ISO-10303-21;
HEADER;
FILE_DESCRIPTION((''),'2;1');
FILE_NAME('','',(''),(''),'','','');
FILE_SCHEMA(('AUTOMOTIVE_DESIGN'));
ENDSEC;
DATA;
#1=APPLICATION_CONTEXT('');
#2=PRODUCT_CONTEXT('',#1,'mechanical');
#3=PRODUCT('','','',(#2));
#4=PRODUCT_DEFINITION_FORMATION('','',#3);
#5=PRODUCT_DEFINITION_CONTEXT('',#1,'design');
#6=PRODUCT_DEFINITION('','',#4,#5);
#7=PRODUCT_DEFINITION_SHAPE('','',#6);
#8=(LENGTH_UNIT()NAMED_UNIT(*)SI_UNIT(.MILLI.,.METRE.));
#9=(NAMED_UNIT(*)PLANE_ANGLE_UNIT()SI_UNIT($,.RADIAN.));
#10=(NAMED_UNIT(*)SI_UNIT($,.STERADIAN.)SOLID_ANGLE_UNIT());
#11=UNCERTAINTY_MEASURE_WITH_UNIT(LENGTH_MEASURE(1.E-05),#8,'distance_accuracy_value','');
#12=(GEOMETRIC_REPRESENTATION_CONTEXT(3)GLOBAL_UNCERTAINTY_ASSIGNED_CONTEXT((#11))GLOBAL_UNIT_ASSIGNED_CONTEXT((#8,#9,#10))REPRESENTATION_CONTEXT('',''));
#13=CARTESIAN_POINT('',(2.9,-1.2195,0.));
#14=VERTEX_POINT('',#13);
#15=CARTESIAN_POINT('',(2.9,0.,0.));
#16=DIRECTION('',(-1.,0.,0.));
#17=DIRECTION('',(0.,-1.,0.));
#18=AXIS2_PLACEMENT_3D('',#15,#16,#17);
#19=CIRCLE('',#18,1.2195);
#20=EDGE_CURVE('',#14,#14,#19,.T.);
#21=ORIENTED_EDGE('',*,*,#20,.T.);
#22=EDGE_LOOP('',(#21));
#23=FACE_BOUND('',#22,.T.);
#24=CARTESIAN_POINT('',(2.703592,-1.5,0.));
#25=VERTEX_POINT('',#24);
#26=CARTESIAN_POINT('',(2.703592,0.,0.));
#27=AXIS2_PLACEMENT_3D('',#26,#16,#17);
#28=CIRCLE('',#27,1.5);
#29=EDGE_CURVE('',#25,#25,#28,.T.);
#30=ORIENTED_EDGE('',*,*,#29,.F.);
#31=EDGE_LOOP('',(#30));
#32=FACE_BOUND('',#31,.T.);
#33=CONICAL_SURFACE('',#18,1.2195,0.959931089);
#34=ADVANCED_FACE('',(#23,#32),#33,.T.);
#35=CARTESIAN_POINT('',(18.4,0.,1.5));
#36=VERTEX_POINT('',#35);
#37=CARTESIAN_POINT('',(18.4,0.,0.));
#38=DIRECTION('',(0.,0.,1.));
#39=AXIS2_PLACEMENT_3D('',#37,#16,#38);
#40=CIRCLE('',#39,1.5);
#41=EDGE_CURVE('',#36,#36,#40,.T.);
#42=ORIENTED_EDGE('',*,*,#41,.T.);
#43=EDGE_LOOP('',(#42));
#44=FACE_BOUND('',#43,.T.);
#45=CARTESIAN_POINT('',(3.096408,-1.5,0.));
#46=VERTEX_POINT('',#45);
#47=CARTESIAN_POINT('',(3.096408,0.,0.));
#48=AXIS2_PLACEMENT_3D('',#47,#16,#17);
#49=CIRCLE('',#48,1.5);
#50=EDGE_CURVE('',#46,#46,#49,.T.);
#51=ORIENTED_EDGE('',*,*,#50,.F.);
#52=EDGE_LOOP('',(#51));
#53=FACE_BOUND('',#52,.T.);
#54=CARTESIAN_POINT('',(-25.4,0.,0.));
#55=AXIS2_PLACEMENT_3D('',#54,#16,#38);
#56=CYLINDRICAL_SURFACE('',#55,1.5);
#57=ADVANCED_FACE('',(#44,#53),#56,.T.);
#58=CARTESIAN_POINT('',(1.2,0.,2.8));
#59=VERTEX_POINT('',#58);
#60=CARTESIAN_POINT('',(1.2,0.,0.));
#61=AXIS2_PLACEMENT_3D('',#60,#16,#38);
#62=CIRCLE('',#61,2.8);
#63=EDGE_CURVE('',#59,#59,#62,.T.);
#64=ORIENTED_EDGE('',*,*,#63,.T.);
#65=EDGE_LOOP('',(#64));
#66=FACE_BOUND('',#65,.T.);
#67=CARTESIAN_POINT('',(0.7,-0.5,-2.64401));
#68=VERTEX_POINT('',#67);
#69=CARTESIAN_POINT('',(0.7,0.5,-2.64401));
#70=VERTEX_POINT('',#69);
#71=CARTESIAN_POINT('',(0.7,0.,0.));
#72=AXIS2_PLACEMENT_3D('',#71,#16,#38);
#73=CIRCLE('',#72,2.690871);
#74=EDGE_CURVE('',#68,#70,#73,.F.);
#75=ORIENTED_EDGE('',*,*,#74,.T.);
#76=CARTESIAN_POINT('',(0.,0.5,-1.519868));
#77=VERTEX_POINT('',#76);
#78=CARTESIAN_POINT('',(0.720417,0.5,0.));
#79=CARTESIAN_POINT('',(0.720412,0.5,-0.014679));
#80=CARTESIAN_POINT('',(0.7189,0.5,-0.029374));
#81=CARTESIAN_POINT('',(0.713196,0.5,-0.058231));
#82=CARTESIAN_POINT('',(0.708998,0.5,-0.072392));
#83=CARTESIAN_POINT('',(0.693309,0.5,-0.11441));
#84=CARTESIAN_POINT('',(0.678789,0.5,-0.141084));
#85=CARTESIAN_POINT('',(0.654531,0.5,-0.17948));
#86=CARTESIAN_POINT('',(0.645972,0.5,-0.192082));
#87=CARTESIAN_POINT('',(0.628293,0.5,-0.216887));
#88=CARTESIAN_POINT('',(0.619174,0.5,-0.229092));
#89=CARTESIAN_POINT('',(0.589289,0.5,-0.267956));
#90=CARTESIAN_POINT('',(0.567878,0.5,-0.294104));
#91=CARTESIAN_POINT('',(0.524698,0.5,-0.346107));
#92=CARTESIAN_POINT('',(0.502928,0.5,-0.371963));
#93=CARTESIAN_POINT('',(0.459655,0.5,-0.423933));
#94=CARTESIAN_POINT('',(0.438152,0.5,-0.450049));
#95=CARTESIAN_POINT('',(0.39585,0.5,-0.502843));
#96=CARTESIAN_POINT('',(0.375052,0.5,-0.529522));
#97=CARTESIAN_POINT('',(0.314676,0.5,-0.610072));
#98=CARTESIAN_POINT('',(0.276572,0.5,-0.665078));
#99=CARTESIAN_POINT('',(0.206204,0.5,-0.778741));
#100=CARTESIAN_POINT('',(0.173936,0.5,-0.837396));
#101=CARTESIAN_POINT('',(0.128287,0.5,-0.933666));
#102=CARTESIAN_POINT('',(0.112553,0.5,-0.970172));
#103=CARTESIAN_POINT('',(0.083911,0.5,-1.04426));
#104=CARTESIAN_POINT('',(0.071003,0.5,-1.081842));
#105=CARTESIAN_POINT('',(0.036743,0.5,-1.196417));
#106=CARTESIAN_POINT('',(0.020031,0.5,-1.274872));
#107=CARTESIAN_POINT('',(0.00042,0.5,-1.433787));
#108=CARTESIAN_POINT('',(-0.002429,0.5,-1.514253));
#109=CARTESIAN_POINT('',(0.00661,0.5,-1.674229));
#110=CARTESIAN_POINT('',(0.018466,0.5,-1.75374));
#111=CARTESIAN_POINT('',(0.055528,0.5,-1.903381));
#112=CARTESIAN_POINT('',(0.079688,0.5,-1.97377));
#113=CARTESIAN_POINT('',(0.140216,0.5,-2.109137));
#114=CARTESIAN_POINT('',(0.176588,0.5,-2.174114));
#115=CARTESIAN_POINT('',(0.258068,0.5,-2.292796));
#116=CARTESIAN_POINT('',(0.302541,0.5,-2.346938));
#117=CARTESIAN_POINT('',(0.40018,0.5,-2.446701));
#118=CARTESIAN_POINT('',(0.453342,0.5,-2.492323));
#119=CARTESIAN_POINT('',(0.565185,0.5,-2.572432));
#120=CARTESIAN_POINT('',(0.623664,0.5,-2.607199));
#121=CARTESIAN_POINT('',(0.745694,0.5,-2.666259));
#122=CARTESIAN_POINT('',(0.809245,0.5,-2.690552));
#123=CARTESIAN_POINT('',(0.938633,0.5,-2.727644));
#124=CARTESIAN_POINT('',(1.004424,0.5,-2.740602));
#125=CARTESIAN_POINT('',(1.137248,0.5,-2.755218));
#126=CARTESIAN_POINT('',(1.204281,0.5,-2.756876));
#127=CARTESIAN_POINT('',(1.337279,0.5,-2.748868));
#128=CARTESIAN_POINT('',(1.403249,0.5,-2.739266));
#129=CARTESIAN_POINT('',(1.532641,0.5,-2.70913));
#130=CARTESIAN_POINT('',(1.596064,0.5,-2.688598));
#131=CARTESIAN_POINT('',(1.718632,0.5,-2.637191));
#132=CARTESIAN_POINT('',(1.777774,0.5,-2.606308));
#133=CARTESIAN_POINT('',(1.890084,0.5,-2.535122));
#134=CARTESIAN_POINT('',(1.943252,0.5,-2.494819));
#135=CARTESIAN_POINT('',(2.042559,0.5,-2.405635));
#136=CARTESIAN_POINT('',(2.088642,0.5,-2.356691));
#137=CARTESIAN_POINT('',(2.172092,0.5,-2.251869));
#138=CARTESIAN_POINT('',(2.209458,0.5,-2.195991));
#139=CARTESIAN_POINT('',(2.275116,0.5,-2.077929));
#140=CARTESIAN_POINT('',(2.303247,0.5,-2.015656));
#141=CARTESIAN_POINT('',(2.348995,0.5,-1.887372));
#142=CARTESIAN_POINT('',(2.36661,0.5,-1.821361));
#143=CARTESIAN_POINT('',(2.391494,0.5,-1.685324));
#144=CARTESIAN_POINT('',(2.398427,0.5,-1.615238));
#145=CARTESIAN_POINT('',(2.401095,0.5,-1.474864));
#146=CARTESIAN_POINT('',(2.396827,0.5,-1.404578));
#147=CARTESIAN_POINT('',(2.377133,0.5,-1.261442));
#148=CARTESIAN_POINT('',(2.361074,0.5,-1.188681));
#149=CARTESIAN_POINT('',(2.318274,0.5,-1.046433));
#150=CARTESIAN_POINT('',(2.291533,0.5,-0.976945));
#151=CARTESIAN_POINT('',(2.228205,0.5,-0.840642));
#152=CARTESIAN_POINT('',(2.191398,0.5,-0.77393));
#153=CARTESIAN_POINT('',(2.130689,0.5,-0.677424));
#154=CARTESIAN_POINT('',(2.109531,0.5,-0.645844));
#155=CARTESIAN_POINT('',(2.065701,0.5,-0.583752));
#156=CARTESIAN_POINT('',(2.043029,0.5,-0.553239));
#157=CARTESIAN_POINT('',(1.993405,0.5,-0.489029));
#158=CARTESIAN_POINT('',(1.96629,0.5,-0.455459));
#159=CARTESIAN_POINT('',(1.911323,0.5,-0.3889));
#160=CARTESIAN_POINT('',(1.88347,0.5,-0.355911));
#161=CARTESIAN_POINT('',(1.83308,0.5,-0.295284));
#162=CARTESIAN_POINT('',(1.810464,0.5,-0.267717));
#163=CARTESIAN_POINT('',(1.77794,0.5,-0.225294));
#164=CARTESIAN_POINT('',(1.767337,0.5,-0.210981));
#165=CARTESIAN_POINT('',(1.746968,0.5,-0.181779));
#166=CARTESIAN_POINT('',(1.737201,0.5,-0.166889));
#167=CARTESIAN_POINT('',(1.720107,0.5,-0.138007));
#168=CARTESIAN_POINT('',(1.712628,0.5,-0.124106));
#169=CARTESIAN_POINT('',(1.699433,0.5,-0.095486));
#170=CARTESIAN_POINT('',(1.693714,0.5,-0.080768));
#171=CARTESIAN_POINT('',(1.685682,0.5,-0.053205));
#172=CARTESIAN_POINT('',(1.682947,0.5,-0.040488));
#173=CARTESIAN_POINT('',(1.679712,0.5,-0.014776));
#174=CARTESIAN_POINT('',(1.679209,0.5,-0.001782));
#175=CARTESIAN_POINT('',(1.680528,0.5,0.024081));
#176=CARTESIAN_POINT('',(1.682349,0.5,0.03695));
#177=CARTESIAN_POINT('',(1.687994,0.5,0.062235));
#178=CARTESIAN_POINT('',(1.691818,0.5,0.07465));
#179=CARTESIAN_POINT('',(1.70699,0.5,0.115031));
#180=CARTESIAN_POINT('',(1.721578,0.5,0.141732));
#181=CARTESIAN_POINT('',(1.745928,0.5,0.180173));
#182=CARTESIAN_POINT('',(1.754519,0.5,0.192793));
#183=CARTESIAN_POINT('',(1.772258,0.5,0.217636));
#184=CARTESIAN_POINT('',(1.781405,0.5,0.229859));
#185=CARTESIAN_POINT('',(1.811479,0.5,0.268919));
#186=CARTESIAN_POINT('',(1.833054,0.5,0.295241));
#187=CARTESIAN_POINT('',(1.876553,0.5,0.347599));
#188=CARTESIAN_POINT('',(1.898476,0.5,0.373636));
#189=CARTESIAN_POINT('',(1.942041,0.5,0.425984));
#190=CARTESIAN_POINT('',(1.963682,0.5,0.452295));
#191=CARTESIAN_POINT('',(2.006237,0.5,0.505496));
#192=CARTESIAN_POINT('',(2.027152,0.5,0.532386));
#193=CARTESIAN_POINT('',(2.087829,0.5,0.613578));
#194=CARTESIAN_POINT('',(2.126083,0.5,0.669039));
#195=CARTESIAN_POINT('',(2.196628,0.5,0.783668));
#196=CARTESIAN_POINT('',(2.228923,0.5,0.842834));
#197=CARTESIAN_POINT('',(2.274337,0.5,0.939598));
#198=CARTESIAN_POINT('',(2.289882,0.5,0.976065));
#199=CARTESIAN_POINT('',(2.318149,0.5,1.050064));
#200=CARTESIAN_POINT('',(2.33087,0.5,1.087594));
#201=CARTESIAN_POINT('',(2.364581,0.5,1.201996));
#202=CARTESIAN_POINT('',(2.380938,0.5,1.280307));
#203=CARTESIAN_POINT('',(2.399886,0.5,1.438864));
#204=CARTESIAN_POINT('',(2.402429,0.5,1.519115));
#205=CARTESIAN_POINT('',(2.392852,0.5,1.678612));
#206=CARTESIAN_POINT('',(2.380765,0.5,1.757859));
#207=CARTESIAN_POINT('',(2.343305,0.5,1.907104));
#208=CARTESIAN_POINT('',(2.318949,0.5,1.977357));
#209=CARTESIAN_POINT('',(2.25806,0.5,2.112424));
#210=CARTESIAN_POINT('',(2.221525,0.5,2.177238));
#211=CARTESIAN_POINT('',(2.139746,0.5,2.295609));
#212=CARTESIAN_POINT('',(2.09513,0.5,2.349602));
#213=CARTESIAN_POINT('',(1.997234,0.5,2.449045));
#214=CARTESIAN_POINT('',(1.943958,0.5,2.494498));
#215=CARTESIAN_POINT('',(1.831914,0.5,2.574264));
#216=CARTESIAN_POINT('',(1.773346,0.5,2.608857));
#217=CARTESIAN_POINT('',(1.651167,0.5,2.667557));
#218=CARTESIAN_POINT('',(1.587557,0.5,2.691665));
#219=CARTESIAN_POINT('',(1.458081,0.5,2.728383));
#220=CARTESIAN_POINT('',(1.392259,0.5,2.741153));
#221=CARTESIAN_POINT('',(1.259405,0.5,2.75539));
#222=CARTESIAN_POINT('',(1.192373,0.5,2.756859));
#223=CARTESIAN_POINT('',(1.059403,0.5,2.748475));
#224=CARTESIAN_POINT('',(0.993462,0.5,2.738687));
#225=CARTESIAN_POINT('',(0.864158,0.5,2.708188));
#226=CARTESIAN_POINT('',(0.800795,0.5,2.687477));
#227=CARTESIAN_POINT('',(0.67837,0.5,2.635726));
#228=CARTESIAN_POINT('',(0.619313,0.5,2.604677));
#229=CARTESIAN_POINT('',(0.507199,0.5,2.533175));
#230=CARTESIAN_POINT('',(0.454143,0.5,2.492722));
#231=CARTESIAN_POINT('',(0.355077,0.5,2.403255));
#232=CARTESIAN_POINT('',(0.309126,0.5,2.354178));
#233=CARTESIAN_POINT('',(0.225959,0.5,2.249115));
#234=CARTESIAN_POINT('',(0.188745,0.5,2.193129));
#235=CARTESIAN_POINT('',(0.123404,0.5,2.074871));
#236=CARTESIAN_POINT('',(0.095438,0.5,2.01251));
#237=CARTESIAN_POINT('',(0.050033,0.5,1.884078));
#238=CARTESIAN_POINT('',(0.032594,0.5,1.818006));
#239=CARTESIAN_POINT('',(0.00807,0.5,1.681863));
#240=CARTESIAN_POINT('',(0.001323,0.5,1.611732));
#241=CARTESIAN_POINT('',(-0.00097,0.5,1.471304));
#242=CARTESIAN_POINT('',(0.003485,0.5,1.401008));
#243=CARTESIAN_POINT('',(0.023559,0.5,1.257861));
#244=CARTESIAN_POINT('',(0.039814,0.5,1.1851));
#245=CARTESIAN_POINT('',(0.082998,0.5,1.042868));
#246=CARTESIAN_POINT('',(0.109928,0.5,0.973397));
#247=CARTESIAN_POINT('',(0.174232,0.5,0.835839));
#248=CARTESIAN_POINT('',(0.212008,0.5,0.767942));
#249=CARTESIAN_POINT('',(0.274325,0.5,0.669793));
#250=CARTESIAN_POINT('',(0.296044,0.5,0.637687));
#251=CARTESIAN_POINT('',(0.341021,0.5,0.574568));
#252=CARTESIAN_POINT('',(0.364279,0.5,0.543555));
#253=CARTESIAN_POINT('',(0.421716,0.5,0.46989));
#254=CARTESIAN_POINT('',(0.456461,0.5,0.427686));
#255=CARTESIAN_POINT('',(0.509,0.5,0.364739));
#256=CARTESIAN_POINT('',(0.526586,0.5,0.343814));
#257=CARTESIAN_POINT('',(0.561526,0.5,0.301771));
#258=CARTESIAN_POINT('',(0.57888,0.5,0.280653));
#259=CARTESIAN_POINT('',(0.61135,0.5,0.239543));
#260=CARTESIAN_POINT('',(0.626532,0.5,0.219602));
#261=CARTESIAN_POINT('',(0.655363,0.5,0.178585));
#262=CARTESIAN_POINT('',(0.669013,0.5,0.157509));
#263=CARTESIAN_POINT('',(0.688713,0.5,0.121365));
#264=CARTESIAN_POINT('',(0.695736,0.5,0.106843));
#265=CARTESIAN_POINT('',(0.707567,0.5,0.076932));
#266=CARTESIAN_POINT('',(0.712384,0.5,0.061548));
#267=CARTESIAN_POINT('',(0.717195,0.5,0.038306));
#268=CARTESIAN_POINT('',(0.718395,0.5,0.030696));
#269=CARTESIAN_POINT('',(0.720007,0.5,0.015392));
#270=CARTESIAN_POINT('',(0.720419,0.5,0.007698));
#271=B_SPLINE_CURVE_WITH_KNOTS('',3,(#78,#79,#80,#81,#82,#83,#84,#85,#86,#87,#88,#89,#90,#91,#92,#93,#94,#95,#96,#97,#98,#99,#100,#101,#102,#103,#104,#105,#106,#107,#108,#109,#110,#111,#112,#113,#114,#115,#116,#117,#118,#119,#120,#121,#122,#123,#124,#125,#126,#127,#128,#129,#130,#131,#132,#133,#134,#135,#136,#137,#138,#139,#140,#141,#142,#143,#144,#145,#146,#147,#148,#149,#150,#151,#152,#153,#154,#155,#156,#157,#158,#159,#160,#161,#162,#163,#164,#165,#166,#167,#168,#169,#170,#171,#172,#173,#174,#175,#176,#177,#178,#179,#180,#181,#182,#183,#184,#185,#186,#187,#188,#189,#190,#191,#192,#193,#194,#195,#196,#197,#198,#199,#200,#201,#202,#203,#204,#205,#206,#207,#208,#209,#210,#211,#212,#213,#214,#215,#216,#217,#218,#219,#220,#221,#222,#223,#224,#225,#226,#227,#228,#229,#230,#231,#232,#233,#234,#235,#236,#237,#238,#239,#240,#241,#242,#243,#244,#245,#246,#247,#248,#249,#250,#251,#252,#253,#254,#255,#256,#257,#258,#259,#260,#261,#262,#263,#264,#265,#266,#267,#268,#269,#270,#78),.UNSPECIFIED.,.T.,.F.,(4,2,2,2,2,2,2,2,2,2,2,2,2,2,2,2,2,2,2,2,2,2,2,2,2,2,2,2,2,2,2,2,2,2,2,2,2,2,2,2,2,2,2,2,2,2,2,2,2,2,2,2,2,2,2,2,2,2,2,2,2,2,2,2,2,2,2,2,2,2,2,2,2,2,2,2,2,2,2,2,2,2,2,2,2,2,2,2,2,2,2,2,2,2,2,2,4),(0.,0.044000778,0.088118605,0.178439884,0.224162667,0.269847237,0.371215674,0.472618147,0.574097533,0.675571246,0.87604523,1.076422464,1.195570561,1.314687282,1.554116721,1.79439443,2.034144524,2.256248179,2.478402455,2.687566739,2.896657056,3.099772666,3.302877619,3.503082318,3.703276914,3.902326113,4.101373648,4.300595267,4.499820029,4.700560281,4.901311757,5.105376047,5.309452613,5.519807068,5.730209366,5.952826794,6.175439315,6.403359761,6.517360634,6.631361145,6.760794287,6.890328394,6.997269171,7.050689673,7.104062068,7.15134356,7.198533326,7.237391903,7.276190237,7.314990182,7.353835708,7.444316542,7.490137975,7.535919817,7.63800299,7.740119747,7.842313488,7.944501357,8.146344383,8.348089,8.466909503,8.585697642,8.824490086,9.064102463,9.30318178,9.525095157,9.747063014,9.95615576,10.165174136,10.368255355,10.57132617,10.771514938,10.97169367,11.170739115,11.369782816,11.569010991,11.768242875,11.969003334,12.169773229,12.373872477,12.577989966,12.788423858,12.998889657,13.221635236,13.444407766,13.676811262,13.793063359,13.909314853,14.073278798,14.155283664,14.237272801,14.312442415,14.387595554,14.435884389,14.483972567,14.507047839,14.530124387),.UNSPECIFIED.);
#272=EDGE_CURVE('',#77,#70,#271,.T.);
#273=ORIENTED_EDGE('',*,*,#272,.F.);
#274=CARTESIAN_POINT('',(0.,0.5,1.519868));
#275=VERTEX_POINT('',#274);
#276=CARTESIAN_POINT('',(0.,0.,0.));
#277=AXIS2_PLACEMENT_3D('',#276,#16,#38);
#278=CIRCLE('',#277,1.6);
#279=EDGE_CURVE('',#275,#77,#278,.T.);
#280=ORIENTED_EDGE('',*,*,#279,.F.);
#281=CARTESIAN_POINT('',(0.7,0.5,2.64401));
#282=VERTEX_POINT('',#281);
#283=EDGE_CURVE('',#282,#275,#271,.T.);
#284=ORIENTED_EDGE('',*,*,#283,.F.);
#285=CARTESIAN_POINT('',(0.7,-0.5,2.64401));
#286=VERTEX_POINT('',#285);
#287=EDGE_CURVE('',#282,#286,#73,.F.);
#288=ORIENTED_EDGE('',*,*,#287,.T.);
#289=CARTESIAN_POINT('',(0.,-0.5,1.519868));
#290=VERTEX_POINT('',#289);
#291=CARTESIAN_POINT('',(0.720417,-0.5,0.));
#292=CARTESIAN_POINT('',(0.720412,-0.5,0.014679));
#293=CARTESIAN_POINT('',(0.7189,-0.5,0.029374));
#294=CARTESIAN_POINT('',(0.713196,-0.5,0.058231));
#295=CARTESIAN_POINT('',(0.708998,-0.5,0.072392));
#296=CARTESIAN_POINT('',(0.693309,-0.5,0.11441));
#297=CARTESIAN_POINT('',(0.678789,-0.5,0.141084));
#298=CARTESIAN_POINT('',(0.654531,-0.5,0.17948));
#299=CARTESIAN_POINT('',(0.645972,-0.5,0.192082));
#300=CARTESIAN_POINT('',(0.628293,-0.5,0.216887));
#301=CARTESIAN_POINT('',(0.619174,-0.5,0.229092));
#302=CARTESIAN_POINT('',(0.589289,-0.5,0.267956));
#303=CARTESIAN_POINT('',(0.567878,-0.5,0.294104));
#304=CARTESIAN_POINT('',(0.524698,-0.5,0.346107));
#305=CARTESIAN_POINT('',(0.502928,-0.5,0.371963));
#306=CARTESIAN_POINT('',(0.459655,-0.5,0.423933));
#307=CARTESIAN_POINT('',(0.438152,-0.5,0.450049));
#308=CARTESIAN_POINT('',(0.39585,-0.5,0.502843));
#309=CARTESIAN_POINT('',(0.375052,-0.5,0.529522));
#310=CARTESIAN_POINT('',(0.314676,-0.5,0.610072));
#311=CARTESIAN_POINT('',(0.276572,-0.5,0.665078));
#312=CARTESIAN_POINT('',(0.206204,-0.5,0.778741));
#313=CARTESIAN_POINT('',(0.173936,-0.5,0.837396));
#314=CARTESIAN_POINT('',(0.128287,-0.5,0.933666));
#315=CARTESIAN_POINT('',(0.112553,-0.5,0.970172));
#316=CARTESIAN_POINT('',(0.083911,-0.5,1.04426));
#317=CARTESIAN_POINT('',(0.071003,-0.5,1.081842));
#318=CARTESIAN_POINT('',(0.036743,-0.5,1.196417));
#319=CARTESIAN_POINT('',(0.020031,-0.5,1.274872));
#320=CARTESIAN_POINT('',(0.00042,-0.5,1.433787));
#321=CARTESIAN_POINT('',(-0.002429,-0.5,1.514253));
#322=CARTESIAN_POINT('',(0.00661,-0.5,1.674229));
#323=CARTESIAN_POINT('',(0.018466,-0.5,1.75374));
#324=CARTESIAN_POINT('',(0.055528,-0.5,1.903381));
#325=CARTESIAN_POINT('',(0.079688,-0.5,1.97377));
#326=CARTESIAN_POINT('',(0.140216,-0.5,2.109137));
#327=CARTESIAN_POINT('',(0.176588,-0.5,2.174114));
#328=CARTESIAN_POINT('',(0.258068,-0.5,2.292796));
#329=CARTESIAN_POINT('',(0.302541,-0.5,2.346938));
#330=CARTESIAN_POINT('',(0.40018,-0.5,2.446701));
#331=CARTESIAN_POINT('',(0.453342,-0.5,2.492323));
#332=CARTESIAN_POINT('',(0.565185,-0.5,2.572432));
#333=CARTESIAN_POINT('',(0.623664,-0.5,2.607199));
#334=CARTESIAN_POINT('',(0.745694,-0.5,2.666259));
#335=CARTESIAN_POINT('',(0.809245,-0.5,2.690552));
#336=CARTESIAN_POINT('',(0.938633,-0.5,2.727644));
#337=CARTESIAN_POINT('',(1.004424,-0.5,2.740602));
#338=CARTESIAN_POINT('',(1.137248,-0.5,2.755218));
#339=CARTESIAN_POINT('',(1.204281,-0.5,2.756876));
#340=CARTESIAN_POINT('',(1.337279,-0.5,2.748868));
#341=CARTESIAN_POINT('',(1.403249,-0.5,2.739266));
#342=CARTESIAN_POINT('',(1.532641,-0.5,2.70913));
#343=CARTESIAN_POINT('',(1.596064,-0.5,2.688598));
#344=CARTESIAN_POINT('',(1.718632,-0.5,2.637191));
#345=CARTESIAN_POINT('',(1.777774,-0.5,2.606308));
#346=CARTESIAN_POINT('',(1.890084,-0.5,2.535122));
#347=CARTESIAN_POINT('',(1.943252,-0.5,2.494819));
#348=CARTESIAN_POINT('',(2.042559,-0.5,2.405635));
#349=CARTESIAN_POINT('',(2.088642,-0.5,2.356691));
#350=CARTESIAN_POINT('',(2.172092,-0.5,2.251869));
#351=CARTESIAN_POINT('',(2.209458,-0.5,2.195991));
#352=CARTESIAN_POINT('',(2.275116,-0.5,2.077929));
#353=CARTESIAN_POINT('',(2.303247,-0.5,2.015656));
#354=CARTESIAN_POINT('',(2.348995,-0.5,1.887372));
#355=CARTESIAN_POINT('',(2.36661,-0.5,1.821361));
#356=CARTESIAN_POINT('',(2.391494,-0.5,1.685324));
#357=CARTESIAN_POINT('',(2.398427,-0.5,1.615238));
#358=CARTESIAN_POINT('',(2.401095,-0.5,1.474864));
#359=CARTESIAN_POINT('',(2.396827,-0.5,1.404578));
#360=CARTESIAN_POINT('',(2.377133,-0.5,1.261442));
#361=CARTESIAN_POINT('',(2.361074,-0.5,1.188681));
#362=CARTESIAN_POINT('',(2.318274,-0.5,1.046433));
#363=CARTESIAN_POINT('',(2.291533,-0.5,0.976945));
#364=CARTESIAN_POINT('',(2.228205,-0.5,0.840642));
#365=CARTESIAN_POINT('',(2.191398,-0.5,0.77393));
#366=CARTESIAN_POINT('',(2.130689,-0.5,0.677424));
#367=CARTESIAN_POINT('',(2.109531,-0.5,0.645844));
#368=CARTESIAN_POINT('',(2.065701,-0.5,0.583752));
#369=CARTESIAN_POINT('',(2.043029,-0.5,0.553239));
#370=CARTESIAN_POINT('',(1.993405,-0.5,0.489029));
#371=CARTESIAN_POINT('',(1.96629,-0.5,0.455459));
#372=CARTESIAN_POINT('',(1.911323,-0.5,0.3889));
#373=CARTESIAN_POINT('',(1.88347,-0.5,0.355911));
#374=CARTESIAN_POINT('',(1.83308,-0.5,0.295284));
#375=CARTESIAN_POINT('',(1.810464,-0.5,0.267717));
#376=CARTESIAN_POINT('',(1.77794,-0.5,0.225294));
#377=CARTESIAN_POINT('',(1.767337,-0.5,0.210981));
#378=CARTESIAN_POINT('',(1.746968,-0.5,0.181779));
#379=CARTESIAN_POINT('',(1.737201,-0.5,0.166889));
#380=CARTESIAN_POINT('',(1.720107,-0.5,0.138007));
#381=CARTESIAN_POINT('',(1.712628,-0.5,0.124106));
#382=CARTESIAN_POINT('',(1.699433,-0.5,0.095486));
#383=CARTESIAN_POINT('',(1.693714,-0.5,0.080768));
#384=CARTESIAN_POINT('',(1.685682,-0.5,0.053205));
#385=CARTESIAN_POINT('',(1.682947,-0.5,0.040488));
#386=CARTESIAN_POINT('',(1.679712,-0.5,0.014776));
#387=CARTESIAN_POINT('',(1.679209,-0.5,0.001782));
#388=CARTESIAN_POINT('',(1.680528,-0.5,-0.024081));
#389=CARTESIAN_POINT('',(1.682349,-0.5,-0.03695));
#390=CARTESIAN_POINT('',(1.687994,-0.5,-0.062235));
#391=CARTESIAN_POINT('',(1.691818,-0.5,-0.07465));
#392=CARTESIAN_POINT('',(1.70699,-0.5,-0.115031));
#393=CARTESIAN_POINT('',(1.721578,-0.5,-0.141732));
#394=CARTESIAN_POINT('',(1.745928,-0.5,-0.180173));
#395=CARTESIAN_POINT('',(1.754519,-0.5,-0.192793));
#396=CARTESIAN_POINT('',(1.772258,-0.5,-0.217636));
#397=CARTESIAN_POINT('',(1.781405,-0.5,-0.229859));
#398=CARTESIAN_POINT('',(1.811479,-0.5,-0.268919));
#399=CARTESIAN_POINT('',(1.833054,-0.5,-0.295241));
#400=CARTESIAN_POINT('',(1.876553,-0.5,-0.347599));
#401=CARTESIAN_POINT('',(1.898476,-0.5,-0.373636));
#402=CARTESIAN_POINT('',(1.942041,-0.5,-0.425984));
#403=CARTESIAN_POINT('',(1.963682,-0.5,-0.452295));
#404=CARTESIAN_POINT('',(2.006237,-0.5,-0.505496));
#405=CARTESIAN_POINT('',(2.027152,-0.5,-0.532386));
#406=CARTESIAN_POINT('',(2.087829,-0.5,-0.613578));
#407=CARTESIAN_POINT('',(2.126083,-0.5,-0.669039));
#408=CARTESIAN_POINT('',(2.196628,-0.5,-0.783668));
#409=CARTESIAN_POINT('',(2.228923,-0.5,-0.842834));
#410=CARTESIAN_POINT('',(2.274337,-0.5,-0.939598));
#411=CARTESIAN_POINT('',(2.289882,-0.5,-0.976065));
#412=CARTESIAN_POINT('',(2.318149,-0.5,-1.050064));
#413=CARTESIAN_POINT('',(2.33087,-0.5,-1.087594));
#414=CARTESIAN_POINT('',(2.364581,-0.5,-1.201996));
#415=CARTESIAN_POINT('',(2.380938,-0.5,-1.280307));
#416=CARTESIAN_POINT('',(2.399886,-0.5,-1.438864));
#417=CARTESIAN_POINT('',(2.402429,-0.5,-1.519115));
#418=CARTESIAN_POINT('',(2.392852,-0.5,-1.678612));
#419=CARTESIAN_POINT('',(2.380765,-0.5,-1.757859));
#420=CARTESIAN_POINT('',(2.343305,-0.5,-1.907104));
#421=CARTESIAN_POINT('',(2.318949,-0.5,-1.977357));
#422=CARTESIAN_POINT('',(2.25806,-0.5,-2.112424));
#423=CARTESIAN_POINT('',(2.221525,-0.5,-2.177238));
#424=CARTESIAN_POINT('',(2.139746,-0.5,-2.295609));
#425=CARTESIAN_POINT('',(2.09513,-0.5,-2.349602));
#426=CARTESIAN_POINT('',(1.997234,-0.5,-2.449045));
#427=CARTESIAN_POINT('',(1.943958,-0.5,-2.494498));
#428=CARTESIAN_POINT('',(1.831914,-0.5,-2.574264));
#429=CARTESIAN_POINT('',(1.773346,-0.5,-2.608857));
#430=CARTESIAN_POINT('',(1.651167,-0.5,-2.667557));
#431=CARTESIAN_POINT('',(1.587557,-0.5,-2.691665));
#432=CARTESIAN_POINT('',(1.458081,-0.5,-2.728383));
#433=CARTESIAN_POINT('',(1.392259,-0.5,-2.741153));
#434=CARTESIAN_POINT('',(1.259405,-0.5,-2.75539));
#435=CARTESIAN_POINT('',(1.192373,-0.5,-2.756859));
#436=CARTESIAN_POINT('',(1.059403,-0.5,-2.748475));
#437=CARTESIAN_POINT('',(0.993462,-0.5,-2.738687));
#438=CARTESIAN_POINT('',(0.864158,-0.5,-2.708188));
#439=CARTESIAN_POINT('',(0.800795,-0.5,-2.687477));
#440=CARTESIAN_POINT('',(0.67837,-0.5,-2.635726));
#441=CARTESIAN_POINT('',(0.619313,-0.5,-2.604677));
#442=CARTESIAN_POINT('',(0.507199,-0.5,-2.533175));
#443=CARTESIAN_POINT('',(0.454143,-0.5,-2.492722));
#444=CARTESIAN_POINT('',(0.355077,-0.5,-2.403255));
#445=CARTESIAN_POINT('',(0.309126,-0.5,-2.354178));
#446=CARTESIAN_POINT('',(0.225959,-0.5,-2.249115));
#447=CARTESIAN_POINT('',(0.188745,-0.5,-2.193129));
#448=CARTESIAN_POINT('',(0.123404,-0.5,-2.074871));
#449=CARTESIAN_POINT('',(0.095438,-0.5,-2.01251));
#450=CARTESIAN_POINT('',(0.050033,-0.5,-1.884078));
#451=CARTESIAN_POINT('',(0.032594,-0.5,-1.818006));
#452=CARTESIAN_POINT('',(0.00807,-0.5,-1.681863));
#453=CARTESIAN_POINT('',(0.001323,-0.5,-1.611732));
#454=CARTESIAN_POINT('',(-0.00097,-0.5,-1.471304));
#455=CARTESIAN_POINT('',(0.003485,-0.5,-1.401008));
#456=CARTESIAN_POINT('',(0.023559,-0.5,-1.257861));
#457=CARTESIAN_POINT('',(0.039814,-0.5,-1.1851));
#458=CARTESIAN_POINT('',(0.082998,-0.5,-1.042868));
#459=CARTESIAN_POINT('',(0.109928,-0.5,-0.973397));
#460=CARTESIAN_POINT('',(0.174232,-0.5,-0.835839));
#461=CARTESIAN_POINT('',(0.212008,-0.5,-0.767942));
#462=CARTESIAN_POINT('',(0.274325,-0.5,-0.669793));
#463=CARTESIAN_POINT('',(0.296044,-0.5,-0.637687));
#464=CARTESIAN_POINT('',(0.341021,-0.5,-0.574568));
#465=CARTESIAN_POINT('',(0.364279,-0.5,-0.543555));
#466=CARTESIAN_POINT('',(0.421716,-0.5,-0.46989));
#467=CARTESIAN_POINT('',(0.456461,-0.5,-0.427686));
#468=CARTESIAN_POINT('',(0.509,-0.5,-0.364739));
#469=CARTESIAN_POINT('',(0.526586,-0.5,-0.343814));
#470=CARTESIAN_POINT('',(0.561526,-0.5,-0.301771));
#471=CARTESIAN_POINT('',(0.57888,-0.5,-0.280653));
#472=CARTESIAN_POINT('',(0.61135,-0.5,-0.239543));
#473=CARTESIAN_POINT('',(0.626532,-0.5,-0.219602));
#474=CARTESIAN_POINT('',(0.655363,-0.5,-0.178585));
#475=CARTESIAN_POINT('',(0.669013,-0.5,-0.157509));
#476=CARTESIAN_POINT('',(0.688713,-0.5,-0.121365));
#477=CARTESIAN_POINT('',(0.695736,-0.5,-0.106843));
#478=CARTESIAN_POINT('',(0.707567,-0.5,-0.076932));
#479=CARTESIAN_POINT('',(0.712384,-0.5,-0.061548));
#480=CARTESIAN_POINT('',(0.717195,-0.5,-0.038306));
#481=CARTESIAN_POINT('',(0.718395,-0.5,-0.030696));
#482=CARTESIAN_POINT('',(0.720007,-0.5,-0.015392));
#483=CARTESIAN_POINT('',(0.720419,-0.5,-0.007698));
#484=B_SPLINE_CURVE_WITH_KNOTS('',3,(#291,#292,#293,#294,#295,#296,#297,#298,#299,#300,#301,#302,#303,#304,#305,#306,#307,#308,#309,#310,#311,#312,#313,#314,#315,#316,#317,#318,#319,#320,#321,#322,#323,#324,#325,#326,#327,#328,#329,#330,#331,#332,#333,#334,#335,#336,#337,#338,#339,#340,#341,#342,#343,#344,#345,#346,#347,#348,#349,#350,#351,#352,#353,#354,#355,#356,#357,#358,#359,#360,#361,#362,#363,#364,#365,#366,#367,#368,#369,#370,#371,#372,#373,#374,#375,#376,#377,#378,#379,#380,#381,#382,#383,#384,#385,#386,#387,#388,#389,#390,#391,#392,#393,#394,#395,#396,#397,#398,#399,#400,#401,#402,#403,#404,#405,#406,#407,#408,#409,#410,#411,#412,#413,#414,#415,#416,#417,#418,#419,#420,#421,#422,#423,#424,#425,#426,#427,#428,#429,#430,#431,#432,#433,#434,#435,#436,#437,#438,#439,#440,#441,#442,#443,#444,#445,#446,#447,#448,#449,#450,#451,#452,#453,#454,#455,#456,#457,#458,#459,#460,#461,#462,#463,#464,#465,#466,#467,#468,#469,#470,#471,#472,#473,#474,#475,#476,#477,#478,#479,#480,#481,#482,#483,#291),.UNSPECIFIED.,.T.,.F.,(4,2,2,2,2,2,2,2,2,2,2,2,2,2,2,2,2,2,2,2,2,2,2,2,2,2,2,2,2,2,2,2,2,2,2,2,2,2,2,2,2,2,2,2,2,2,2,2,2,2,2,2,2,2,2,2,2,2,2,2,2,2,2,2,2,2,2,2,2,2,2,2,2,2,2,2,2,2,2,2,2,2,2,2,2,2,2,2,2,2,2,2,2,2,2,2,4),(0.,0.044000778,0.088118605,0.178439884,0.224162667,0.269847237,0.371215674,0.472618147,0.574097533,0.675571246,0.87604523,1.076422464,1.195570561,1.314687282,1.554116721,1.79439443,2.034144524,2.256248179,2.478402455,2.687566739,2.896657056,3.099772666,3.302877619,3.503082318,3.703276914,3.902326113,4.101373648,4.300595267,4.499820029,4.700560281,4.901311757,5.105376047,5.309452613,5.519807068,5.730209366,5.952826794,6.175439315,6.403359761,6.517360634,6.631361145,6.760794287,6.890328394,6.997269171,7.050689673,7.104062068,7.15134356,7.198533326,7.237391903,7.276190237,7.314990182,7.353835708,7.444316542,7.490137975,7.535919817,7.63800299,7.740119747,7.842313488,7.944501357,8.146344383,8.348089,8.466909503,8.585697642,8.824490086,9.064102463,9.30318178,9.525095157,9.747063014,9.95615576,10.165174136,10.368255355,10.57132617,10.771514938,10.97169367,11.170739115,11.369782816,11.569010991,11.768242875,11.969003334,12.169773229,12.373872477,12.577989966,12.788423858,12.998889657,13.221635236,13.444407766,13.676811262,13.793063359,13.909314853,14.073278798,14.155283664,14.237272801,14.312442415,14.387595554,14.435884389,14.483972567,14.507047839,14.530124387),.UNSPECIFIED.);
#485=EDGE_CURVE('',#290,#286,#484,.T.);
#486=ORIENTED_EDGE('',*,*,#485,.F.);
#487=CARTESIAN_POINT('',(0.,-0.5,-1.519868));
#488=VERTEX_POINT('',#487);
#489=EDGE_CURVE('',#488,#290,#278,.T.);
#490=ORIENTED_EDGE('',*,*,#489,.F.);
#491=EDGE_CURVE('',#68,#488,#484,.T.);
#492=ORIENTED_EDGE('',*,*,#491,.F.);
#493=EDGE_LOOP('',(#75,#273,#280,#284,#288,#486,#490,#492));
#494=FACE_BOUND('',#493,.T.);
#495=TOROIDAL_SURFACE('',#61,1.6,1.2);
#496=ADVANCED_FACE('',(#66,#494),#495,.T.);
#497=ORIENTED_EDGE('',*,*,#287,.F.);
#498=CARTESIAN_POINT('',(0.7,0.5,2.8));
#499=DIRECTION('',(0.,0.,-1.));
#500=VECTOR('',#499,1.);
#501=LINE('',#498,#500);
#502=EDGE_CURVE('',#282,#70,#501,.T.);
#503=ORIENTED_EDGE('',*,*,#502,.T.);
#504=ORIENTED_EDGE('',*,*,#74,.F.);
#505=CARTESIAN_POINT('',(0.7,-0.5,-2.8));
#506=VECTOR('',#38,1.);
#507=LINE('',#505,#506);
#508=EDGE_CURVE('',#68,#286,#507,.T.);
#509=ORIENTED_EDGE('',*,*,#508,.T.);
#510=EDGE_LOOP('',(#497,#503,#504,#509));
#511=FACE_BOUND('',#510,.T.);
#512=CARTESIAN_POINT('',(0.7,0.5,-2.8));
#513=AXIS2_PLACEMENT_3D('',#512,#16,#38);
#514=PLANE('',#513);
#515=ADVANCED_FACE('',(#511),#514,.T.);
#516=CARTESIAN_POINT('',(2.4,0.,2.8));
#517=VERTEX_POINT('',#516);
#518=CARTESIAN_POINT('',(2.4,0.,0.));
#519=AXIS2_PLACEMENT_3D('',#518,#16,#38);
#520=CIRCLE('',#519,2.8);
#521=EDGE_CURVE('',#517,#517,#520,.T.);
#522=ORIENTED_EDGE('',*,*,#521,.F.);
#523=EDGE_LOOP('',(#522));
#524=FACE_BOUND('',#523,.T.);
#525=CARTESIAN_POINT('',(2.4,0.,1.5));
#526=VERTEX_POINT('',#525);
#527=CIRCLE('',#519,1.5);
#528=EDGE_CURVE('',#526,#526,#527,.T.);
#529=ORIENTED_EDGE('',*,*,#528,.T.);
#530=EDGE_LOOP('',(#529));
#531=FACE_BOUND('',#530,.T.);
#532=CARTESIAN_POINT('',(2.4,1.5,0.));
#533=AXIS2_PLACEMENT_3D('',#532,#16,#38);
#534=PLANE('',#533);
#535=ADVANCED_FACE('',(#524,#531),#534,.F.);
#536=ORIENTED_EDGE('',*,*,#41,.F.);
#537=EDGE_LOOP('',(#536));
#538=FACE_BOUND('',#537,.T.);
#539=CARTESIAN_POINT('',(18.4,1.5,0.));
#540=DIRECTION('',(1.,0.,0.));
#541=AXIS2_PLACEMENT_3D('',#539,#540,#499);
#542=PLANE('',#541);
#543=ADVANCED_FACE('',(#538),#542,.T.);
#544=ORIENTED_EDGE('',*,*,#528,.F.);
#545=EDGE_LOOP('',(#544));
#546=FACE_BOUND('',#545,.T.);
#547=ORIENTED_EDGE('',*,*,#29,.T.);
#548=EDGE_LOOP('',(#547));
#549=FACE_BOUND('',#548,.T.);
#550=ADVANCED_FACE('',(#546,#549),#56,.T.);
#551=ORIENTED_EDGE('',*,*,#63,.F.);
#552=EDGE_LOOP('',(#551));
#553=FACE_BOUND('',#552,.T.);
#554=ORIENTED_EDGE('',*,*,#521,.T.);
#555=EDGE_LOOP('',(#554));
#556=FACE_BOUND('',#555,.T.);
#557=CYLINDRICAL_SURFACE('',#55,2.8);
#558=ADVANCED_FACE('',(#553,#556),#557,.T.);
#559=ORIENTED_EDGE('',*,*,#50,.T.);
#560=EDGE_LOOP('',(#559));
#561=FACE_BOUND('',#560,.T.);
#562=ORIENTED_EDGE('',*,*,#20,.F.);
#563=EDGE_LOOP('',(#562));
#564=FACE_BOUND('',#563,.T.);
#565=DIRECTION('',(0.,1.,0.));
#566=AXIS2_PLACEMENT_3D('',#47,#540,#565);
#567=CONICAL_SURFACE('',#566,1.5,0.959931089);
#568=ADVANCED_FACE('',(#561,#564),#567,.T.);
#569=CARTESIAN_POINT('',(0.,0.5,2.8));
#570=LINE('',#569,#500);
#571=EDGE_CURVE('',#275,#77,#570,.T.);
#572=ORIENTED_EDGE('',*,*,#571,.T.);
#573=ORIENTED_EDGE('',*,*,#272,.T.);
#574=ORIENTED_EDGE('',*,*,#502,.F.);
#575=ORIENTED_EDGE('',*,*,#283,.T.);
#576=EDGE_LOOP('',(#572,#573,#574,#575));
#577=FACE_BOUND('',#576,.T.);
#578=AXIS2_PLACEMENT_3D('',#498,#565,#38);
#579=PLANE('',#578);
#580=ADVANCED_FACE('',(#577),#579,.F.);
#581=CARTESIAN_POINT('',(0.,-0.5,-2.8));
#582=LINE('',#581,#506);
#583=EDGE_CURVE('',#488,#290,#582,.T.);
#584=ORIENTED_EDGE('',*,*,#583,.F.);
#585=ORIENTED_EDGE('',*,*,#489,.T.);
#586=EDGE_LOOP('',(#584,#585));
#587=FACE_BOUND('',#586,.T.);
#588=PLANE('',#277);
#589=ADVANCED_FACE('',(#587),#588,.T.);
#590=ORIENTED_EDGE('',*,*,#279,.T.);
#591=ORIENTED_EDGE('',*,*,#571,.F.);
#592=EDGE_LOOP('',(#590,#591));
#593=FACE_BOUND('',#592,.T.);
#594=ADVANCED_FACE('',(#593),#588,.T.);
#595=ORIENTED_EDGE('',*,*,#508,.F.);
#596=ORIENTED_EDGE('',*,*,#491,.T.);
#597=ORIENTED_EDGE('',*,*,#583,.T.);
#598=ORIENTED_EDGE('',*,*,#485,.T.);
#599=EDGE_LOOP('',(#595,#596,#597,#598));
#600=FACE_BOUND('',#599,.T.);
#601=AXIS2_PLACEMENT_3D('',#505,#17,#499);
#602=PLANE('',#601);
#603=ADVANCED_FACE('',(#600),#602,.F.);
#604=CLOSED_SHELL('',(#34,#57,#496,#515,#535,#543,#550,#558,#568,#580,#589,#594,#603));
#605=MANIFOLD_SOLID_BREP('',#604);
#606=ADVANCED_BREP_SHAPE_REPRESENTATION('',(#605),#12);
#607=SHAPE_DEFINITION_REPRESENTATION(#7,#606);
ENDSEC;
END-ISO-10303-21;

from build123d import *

# Parameters (mm, degrees)
SKETCH2_W  = 5.6
SKETCH2_H  = 1
SLOT_DEPTH = 0.7


with BuildPart() as part:
    # BodySke → Base-Revolve (revolve)
    with BuildSketch(Plane.XY, mode=Mode.PRIVATE) as base_revolve_sk:
        with BuildLine():
            Line((2.4, 1.5), (2.4, 2.8))
            Line((2.4, 2.8), (1.2, 2.8))
            ThreePointArc((1.2, 2.8), (0.351471863, 2.448528137), (0, 1.6))
            Line((0, 1.6), (0, 0))
            Line((0, 0), (18.4, 0))
            Line((18.4, 0), (18.4, 1.5))
            Line((18.4, 1.5), (2.4, 1.5))
        make_face()
    revolve(base_revolve_sk.sketch.rotate(Axis((-25.4, 0, 0), (1, 0, 0)), 90), axis=Axis((-25.4, 0, 0), (1, 0, 0)))

    # Sketch2 → Slot (cut)
    with BuildSketch(Plane(origin=(0, 0, 0), x_dir=(0, 0, -1), z_dir=(1, 0, 0))):
        Rectangle(SKETCH2_W, SKETCH2_H)
    extrude(amount=SLOT_DEPTH, mode=Mode.SUBTRACT)

    # ThdSchSke → ThreadSchematic (revolve, cut)
    with BuildSketch(Plane.XY):
        Polygon((2.9, -1.2195), (2.703591786, -1.5), (2.703591786, -1.875), (3.096408214, -1.875), (3.096408214, -1.5), align=None)
    revolve(axis=Axis((-3.175, 0, 0), (1, 0, 0)), mode=Mode.SUBTRACT)


solid = part.part
